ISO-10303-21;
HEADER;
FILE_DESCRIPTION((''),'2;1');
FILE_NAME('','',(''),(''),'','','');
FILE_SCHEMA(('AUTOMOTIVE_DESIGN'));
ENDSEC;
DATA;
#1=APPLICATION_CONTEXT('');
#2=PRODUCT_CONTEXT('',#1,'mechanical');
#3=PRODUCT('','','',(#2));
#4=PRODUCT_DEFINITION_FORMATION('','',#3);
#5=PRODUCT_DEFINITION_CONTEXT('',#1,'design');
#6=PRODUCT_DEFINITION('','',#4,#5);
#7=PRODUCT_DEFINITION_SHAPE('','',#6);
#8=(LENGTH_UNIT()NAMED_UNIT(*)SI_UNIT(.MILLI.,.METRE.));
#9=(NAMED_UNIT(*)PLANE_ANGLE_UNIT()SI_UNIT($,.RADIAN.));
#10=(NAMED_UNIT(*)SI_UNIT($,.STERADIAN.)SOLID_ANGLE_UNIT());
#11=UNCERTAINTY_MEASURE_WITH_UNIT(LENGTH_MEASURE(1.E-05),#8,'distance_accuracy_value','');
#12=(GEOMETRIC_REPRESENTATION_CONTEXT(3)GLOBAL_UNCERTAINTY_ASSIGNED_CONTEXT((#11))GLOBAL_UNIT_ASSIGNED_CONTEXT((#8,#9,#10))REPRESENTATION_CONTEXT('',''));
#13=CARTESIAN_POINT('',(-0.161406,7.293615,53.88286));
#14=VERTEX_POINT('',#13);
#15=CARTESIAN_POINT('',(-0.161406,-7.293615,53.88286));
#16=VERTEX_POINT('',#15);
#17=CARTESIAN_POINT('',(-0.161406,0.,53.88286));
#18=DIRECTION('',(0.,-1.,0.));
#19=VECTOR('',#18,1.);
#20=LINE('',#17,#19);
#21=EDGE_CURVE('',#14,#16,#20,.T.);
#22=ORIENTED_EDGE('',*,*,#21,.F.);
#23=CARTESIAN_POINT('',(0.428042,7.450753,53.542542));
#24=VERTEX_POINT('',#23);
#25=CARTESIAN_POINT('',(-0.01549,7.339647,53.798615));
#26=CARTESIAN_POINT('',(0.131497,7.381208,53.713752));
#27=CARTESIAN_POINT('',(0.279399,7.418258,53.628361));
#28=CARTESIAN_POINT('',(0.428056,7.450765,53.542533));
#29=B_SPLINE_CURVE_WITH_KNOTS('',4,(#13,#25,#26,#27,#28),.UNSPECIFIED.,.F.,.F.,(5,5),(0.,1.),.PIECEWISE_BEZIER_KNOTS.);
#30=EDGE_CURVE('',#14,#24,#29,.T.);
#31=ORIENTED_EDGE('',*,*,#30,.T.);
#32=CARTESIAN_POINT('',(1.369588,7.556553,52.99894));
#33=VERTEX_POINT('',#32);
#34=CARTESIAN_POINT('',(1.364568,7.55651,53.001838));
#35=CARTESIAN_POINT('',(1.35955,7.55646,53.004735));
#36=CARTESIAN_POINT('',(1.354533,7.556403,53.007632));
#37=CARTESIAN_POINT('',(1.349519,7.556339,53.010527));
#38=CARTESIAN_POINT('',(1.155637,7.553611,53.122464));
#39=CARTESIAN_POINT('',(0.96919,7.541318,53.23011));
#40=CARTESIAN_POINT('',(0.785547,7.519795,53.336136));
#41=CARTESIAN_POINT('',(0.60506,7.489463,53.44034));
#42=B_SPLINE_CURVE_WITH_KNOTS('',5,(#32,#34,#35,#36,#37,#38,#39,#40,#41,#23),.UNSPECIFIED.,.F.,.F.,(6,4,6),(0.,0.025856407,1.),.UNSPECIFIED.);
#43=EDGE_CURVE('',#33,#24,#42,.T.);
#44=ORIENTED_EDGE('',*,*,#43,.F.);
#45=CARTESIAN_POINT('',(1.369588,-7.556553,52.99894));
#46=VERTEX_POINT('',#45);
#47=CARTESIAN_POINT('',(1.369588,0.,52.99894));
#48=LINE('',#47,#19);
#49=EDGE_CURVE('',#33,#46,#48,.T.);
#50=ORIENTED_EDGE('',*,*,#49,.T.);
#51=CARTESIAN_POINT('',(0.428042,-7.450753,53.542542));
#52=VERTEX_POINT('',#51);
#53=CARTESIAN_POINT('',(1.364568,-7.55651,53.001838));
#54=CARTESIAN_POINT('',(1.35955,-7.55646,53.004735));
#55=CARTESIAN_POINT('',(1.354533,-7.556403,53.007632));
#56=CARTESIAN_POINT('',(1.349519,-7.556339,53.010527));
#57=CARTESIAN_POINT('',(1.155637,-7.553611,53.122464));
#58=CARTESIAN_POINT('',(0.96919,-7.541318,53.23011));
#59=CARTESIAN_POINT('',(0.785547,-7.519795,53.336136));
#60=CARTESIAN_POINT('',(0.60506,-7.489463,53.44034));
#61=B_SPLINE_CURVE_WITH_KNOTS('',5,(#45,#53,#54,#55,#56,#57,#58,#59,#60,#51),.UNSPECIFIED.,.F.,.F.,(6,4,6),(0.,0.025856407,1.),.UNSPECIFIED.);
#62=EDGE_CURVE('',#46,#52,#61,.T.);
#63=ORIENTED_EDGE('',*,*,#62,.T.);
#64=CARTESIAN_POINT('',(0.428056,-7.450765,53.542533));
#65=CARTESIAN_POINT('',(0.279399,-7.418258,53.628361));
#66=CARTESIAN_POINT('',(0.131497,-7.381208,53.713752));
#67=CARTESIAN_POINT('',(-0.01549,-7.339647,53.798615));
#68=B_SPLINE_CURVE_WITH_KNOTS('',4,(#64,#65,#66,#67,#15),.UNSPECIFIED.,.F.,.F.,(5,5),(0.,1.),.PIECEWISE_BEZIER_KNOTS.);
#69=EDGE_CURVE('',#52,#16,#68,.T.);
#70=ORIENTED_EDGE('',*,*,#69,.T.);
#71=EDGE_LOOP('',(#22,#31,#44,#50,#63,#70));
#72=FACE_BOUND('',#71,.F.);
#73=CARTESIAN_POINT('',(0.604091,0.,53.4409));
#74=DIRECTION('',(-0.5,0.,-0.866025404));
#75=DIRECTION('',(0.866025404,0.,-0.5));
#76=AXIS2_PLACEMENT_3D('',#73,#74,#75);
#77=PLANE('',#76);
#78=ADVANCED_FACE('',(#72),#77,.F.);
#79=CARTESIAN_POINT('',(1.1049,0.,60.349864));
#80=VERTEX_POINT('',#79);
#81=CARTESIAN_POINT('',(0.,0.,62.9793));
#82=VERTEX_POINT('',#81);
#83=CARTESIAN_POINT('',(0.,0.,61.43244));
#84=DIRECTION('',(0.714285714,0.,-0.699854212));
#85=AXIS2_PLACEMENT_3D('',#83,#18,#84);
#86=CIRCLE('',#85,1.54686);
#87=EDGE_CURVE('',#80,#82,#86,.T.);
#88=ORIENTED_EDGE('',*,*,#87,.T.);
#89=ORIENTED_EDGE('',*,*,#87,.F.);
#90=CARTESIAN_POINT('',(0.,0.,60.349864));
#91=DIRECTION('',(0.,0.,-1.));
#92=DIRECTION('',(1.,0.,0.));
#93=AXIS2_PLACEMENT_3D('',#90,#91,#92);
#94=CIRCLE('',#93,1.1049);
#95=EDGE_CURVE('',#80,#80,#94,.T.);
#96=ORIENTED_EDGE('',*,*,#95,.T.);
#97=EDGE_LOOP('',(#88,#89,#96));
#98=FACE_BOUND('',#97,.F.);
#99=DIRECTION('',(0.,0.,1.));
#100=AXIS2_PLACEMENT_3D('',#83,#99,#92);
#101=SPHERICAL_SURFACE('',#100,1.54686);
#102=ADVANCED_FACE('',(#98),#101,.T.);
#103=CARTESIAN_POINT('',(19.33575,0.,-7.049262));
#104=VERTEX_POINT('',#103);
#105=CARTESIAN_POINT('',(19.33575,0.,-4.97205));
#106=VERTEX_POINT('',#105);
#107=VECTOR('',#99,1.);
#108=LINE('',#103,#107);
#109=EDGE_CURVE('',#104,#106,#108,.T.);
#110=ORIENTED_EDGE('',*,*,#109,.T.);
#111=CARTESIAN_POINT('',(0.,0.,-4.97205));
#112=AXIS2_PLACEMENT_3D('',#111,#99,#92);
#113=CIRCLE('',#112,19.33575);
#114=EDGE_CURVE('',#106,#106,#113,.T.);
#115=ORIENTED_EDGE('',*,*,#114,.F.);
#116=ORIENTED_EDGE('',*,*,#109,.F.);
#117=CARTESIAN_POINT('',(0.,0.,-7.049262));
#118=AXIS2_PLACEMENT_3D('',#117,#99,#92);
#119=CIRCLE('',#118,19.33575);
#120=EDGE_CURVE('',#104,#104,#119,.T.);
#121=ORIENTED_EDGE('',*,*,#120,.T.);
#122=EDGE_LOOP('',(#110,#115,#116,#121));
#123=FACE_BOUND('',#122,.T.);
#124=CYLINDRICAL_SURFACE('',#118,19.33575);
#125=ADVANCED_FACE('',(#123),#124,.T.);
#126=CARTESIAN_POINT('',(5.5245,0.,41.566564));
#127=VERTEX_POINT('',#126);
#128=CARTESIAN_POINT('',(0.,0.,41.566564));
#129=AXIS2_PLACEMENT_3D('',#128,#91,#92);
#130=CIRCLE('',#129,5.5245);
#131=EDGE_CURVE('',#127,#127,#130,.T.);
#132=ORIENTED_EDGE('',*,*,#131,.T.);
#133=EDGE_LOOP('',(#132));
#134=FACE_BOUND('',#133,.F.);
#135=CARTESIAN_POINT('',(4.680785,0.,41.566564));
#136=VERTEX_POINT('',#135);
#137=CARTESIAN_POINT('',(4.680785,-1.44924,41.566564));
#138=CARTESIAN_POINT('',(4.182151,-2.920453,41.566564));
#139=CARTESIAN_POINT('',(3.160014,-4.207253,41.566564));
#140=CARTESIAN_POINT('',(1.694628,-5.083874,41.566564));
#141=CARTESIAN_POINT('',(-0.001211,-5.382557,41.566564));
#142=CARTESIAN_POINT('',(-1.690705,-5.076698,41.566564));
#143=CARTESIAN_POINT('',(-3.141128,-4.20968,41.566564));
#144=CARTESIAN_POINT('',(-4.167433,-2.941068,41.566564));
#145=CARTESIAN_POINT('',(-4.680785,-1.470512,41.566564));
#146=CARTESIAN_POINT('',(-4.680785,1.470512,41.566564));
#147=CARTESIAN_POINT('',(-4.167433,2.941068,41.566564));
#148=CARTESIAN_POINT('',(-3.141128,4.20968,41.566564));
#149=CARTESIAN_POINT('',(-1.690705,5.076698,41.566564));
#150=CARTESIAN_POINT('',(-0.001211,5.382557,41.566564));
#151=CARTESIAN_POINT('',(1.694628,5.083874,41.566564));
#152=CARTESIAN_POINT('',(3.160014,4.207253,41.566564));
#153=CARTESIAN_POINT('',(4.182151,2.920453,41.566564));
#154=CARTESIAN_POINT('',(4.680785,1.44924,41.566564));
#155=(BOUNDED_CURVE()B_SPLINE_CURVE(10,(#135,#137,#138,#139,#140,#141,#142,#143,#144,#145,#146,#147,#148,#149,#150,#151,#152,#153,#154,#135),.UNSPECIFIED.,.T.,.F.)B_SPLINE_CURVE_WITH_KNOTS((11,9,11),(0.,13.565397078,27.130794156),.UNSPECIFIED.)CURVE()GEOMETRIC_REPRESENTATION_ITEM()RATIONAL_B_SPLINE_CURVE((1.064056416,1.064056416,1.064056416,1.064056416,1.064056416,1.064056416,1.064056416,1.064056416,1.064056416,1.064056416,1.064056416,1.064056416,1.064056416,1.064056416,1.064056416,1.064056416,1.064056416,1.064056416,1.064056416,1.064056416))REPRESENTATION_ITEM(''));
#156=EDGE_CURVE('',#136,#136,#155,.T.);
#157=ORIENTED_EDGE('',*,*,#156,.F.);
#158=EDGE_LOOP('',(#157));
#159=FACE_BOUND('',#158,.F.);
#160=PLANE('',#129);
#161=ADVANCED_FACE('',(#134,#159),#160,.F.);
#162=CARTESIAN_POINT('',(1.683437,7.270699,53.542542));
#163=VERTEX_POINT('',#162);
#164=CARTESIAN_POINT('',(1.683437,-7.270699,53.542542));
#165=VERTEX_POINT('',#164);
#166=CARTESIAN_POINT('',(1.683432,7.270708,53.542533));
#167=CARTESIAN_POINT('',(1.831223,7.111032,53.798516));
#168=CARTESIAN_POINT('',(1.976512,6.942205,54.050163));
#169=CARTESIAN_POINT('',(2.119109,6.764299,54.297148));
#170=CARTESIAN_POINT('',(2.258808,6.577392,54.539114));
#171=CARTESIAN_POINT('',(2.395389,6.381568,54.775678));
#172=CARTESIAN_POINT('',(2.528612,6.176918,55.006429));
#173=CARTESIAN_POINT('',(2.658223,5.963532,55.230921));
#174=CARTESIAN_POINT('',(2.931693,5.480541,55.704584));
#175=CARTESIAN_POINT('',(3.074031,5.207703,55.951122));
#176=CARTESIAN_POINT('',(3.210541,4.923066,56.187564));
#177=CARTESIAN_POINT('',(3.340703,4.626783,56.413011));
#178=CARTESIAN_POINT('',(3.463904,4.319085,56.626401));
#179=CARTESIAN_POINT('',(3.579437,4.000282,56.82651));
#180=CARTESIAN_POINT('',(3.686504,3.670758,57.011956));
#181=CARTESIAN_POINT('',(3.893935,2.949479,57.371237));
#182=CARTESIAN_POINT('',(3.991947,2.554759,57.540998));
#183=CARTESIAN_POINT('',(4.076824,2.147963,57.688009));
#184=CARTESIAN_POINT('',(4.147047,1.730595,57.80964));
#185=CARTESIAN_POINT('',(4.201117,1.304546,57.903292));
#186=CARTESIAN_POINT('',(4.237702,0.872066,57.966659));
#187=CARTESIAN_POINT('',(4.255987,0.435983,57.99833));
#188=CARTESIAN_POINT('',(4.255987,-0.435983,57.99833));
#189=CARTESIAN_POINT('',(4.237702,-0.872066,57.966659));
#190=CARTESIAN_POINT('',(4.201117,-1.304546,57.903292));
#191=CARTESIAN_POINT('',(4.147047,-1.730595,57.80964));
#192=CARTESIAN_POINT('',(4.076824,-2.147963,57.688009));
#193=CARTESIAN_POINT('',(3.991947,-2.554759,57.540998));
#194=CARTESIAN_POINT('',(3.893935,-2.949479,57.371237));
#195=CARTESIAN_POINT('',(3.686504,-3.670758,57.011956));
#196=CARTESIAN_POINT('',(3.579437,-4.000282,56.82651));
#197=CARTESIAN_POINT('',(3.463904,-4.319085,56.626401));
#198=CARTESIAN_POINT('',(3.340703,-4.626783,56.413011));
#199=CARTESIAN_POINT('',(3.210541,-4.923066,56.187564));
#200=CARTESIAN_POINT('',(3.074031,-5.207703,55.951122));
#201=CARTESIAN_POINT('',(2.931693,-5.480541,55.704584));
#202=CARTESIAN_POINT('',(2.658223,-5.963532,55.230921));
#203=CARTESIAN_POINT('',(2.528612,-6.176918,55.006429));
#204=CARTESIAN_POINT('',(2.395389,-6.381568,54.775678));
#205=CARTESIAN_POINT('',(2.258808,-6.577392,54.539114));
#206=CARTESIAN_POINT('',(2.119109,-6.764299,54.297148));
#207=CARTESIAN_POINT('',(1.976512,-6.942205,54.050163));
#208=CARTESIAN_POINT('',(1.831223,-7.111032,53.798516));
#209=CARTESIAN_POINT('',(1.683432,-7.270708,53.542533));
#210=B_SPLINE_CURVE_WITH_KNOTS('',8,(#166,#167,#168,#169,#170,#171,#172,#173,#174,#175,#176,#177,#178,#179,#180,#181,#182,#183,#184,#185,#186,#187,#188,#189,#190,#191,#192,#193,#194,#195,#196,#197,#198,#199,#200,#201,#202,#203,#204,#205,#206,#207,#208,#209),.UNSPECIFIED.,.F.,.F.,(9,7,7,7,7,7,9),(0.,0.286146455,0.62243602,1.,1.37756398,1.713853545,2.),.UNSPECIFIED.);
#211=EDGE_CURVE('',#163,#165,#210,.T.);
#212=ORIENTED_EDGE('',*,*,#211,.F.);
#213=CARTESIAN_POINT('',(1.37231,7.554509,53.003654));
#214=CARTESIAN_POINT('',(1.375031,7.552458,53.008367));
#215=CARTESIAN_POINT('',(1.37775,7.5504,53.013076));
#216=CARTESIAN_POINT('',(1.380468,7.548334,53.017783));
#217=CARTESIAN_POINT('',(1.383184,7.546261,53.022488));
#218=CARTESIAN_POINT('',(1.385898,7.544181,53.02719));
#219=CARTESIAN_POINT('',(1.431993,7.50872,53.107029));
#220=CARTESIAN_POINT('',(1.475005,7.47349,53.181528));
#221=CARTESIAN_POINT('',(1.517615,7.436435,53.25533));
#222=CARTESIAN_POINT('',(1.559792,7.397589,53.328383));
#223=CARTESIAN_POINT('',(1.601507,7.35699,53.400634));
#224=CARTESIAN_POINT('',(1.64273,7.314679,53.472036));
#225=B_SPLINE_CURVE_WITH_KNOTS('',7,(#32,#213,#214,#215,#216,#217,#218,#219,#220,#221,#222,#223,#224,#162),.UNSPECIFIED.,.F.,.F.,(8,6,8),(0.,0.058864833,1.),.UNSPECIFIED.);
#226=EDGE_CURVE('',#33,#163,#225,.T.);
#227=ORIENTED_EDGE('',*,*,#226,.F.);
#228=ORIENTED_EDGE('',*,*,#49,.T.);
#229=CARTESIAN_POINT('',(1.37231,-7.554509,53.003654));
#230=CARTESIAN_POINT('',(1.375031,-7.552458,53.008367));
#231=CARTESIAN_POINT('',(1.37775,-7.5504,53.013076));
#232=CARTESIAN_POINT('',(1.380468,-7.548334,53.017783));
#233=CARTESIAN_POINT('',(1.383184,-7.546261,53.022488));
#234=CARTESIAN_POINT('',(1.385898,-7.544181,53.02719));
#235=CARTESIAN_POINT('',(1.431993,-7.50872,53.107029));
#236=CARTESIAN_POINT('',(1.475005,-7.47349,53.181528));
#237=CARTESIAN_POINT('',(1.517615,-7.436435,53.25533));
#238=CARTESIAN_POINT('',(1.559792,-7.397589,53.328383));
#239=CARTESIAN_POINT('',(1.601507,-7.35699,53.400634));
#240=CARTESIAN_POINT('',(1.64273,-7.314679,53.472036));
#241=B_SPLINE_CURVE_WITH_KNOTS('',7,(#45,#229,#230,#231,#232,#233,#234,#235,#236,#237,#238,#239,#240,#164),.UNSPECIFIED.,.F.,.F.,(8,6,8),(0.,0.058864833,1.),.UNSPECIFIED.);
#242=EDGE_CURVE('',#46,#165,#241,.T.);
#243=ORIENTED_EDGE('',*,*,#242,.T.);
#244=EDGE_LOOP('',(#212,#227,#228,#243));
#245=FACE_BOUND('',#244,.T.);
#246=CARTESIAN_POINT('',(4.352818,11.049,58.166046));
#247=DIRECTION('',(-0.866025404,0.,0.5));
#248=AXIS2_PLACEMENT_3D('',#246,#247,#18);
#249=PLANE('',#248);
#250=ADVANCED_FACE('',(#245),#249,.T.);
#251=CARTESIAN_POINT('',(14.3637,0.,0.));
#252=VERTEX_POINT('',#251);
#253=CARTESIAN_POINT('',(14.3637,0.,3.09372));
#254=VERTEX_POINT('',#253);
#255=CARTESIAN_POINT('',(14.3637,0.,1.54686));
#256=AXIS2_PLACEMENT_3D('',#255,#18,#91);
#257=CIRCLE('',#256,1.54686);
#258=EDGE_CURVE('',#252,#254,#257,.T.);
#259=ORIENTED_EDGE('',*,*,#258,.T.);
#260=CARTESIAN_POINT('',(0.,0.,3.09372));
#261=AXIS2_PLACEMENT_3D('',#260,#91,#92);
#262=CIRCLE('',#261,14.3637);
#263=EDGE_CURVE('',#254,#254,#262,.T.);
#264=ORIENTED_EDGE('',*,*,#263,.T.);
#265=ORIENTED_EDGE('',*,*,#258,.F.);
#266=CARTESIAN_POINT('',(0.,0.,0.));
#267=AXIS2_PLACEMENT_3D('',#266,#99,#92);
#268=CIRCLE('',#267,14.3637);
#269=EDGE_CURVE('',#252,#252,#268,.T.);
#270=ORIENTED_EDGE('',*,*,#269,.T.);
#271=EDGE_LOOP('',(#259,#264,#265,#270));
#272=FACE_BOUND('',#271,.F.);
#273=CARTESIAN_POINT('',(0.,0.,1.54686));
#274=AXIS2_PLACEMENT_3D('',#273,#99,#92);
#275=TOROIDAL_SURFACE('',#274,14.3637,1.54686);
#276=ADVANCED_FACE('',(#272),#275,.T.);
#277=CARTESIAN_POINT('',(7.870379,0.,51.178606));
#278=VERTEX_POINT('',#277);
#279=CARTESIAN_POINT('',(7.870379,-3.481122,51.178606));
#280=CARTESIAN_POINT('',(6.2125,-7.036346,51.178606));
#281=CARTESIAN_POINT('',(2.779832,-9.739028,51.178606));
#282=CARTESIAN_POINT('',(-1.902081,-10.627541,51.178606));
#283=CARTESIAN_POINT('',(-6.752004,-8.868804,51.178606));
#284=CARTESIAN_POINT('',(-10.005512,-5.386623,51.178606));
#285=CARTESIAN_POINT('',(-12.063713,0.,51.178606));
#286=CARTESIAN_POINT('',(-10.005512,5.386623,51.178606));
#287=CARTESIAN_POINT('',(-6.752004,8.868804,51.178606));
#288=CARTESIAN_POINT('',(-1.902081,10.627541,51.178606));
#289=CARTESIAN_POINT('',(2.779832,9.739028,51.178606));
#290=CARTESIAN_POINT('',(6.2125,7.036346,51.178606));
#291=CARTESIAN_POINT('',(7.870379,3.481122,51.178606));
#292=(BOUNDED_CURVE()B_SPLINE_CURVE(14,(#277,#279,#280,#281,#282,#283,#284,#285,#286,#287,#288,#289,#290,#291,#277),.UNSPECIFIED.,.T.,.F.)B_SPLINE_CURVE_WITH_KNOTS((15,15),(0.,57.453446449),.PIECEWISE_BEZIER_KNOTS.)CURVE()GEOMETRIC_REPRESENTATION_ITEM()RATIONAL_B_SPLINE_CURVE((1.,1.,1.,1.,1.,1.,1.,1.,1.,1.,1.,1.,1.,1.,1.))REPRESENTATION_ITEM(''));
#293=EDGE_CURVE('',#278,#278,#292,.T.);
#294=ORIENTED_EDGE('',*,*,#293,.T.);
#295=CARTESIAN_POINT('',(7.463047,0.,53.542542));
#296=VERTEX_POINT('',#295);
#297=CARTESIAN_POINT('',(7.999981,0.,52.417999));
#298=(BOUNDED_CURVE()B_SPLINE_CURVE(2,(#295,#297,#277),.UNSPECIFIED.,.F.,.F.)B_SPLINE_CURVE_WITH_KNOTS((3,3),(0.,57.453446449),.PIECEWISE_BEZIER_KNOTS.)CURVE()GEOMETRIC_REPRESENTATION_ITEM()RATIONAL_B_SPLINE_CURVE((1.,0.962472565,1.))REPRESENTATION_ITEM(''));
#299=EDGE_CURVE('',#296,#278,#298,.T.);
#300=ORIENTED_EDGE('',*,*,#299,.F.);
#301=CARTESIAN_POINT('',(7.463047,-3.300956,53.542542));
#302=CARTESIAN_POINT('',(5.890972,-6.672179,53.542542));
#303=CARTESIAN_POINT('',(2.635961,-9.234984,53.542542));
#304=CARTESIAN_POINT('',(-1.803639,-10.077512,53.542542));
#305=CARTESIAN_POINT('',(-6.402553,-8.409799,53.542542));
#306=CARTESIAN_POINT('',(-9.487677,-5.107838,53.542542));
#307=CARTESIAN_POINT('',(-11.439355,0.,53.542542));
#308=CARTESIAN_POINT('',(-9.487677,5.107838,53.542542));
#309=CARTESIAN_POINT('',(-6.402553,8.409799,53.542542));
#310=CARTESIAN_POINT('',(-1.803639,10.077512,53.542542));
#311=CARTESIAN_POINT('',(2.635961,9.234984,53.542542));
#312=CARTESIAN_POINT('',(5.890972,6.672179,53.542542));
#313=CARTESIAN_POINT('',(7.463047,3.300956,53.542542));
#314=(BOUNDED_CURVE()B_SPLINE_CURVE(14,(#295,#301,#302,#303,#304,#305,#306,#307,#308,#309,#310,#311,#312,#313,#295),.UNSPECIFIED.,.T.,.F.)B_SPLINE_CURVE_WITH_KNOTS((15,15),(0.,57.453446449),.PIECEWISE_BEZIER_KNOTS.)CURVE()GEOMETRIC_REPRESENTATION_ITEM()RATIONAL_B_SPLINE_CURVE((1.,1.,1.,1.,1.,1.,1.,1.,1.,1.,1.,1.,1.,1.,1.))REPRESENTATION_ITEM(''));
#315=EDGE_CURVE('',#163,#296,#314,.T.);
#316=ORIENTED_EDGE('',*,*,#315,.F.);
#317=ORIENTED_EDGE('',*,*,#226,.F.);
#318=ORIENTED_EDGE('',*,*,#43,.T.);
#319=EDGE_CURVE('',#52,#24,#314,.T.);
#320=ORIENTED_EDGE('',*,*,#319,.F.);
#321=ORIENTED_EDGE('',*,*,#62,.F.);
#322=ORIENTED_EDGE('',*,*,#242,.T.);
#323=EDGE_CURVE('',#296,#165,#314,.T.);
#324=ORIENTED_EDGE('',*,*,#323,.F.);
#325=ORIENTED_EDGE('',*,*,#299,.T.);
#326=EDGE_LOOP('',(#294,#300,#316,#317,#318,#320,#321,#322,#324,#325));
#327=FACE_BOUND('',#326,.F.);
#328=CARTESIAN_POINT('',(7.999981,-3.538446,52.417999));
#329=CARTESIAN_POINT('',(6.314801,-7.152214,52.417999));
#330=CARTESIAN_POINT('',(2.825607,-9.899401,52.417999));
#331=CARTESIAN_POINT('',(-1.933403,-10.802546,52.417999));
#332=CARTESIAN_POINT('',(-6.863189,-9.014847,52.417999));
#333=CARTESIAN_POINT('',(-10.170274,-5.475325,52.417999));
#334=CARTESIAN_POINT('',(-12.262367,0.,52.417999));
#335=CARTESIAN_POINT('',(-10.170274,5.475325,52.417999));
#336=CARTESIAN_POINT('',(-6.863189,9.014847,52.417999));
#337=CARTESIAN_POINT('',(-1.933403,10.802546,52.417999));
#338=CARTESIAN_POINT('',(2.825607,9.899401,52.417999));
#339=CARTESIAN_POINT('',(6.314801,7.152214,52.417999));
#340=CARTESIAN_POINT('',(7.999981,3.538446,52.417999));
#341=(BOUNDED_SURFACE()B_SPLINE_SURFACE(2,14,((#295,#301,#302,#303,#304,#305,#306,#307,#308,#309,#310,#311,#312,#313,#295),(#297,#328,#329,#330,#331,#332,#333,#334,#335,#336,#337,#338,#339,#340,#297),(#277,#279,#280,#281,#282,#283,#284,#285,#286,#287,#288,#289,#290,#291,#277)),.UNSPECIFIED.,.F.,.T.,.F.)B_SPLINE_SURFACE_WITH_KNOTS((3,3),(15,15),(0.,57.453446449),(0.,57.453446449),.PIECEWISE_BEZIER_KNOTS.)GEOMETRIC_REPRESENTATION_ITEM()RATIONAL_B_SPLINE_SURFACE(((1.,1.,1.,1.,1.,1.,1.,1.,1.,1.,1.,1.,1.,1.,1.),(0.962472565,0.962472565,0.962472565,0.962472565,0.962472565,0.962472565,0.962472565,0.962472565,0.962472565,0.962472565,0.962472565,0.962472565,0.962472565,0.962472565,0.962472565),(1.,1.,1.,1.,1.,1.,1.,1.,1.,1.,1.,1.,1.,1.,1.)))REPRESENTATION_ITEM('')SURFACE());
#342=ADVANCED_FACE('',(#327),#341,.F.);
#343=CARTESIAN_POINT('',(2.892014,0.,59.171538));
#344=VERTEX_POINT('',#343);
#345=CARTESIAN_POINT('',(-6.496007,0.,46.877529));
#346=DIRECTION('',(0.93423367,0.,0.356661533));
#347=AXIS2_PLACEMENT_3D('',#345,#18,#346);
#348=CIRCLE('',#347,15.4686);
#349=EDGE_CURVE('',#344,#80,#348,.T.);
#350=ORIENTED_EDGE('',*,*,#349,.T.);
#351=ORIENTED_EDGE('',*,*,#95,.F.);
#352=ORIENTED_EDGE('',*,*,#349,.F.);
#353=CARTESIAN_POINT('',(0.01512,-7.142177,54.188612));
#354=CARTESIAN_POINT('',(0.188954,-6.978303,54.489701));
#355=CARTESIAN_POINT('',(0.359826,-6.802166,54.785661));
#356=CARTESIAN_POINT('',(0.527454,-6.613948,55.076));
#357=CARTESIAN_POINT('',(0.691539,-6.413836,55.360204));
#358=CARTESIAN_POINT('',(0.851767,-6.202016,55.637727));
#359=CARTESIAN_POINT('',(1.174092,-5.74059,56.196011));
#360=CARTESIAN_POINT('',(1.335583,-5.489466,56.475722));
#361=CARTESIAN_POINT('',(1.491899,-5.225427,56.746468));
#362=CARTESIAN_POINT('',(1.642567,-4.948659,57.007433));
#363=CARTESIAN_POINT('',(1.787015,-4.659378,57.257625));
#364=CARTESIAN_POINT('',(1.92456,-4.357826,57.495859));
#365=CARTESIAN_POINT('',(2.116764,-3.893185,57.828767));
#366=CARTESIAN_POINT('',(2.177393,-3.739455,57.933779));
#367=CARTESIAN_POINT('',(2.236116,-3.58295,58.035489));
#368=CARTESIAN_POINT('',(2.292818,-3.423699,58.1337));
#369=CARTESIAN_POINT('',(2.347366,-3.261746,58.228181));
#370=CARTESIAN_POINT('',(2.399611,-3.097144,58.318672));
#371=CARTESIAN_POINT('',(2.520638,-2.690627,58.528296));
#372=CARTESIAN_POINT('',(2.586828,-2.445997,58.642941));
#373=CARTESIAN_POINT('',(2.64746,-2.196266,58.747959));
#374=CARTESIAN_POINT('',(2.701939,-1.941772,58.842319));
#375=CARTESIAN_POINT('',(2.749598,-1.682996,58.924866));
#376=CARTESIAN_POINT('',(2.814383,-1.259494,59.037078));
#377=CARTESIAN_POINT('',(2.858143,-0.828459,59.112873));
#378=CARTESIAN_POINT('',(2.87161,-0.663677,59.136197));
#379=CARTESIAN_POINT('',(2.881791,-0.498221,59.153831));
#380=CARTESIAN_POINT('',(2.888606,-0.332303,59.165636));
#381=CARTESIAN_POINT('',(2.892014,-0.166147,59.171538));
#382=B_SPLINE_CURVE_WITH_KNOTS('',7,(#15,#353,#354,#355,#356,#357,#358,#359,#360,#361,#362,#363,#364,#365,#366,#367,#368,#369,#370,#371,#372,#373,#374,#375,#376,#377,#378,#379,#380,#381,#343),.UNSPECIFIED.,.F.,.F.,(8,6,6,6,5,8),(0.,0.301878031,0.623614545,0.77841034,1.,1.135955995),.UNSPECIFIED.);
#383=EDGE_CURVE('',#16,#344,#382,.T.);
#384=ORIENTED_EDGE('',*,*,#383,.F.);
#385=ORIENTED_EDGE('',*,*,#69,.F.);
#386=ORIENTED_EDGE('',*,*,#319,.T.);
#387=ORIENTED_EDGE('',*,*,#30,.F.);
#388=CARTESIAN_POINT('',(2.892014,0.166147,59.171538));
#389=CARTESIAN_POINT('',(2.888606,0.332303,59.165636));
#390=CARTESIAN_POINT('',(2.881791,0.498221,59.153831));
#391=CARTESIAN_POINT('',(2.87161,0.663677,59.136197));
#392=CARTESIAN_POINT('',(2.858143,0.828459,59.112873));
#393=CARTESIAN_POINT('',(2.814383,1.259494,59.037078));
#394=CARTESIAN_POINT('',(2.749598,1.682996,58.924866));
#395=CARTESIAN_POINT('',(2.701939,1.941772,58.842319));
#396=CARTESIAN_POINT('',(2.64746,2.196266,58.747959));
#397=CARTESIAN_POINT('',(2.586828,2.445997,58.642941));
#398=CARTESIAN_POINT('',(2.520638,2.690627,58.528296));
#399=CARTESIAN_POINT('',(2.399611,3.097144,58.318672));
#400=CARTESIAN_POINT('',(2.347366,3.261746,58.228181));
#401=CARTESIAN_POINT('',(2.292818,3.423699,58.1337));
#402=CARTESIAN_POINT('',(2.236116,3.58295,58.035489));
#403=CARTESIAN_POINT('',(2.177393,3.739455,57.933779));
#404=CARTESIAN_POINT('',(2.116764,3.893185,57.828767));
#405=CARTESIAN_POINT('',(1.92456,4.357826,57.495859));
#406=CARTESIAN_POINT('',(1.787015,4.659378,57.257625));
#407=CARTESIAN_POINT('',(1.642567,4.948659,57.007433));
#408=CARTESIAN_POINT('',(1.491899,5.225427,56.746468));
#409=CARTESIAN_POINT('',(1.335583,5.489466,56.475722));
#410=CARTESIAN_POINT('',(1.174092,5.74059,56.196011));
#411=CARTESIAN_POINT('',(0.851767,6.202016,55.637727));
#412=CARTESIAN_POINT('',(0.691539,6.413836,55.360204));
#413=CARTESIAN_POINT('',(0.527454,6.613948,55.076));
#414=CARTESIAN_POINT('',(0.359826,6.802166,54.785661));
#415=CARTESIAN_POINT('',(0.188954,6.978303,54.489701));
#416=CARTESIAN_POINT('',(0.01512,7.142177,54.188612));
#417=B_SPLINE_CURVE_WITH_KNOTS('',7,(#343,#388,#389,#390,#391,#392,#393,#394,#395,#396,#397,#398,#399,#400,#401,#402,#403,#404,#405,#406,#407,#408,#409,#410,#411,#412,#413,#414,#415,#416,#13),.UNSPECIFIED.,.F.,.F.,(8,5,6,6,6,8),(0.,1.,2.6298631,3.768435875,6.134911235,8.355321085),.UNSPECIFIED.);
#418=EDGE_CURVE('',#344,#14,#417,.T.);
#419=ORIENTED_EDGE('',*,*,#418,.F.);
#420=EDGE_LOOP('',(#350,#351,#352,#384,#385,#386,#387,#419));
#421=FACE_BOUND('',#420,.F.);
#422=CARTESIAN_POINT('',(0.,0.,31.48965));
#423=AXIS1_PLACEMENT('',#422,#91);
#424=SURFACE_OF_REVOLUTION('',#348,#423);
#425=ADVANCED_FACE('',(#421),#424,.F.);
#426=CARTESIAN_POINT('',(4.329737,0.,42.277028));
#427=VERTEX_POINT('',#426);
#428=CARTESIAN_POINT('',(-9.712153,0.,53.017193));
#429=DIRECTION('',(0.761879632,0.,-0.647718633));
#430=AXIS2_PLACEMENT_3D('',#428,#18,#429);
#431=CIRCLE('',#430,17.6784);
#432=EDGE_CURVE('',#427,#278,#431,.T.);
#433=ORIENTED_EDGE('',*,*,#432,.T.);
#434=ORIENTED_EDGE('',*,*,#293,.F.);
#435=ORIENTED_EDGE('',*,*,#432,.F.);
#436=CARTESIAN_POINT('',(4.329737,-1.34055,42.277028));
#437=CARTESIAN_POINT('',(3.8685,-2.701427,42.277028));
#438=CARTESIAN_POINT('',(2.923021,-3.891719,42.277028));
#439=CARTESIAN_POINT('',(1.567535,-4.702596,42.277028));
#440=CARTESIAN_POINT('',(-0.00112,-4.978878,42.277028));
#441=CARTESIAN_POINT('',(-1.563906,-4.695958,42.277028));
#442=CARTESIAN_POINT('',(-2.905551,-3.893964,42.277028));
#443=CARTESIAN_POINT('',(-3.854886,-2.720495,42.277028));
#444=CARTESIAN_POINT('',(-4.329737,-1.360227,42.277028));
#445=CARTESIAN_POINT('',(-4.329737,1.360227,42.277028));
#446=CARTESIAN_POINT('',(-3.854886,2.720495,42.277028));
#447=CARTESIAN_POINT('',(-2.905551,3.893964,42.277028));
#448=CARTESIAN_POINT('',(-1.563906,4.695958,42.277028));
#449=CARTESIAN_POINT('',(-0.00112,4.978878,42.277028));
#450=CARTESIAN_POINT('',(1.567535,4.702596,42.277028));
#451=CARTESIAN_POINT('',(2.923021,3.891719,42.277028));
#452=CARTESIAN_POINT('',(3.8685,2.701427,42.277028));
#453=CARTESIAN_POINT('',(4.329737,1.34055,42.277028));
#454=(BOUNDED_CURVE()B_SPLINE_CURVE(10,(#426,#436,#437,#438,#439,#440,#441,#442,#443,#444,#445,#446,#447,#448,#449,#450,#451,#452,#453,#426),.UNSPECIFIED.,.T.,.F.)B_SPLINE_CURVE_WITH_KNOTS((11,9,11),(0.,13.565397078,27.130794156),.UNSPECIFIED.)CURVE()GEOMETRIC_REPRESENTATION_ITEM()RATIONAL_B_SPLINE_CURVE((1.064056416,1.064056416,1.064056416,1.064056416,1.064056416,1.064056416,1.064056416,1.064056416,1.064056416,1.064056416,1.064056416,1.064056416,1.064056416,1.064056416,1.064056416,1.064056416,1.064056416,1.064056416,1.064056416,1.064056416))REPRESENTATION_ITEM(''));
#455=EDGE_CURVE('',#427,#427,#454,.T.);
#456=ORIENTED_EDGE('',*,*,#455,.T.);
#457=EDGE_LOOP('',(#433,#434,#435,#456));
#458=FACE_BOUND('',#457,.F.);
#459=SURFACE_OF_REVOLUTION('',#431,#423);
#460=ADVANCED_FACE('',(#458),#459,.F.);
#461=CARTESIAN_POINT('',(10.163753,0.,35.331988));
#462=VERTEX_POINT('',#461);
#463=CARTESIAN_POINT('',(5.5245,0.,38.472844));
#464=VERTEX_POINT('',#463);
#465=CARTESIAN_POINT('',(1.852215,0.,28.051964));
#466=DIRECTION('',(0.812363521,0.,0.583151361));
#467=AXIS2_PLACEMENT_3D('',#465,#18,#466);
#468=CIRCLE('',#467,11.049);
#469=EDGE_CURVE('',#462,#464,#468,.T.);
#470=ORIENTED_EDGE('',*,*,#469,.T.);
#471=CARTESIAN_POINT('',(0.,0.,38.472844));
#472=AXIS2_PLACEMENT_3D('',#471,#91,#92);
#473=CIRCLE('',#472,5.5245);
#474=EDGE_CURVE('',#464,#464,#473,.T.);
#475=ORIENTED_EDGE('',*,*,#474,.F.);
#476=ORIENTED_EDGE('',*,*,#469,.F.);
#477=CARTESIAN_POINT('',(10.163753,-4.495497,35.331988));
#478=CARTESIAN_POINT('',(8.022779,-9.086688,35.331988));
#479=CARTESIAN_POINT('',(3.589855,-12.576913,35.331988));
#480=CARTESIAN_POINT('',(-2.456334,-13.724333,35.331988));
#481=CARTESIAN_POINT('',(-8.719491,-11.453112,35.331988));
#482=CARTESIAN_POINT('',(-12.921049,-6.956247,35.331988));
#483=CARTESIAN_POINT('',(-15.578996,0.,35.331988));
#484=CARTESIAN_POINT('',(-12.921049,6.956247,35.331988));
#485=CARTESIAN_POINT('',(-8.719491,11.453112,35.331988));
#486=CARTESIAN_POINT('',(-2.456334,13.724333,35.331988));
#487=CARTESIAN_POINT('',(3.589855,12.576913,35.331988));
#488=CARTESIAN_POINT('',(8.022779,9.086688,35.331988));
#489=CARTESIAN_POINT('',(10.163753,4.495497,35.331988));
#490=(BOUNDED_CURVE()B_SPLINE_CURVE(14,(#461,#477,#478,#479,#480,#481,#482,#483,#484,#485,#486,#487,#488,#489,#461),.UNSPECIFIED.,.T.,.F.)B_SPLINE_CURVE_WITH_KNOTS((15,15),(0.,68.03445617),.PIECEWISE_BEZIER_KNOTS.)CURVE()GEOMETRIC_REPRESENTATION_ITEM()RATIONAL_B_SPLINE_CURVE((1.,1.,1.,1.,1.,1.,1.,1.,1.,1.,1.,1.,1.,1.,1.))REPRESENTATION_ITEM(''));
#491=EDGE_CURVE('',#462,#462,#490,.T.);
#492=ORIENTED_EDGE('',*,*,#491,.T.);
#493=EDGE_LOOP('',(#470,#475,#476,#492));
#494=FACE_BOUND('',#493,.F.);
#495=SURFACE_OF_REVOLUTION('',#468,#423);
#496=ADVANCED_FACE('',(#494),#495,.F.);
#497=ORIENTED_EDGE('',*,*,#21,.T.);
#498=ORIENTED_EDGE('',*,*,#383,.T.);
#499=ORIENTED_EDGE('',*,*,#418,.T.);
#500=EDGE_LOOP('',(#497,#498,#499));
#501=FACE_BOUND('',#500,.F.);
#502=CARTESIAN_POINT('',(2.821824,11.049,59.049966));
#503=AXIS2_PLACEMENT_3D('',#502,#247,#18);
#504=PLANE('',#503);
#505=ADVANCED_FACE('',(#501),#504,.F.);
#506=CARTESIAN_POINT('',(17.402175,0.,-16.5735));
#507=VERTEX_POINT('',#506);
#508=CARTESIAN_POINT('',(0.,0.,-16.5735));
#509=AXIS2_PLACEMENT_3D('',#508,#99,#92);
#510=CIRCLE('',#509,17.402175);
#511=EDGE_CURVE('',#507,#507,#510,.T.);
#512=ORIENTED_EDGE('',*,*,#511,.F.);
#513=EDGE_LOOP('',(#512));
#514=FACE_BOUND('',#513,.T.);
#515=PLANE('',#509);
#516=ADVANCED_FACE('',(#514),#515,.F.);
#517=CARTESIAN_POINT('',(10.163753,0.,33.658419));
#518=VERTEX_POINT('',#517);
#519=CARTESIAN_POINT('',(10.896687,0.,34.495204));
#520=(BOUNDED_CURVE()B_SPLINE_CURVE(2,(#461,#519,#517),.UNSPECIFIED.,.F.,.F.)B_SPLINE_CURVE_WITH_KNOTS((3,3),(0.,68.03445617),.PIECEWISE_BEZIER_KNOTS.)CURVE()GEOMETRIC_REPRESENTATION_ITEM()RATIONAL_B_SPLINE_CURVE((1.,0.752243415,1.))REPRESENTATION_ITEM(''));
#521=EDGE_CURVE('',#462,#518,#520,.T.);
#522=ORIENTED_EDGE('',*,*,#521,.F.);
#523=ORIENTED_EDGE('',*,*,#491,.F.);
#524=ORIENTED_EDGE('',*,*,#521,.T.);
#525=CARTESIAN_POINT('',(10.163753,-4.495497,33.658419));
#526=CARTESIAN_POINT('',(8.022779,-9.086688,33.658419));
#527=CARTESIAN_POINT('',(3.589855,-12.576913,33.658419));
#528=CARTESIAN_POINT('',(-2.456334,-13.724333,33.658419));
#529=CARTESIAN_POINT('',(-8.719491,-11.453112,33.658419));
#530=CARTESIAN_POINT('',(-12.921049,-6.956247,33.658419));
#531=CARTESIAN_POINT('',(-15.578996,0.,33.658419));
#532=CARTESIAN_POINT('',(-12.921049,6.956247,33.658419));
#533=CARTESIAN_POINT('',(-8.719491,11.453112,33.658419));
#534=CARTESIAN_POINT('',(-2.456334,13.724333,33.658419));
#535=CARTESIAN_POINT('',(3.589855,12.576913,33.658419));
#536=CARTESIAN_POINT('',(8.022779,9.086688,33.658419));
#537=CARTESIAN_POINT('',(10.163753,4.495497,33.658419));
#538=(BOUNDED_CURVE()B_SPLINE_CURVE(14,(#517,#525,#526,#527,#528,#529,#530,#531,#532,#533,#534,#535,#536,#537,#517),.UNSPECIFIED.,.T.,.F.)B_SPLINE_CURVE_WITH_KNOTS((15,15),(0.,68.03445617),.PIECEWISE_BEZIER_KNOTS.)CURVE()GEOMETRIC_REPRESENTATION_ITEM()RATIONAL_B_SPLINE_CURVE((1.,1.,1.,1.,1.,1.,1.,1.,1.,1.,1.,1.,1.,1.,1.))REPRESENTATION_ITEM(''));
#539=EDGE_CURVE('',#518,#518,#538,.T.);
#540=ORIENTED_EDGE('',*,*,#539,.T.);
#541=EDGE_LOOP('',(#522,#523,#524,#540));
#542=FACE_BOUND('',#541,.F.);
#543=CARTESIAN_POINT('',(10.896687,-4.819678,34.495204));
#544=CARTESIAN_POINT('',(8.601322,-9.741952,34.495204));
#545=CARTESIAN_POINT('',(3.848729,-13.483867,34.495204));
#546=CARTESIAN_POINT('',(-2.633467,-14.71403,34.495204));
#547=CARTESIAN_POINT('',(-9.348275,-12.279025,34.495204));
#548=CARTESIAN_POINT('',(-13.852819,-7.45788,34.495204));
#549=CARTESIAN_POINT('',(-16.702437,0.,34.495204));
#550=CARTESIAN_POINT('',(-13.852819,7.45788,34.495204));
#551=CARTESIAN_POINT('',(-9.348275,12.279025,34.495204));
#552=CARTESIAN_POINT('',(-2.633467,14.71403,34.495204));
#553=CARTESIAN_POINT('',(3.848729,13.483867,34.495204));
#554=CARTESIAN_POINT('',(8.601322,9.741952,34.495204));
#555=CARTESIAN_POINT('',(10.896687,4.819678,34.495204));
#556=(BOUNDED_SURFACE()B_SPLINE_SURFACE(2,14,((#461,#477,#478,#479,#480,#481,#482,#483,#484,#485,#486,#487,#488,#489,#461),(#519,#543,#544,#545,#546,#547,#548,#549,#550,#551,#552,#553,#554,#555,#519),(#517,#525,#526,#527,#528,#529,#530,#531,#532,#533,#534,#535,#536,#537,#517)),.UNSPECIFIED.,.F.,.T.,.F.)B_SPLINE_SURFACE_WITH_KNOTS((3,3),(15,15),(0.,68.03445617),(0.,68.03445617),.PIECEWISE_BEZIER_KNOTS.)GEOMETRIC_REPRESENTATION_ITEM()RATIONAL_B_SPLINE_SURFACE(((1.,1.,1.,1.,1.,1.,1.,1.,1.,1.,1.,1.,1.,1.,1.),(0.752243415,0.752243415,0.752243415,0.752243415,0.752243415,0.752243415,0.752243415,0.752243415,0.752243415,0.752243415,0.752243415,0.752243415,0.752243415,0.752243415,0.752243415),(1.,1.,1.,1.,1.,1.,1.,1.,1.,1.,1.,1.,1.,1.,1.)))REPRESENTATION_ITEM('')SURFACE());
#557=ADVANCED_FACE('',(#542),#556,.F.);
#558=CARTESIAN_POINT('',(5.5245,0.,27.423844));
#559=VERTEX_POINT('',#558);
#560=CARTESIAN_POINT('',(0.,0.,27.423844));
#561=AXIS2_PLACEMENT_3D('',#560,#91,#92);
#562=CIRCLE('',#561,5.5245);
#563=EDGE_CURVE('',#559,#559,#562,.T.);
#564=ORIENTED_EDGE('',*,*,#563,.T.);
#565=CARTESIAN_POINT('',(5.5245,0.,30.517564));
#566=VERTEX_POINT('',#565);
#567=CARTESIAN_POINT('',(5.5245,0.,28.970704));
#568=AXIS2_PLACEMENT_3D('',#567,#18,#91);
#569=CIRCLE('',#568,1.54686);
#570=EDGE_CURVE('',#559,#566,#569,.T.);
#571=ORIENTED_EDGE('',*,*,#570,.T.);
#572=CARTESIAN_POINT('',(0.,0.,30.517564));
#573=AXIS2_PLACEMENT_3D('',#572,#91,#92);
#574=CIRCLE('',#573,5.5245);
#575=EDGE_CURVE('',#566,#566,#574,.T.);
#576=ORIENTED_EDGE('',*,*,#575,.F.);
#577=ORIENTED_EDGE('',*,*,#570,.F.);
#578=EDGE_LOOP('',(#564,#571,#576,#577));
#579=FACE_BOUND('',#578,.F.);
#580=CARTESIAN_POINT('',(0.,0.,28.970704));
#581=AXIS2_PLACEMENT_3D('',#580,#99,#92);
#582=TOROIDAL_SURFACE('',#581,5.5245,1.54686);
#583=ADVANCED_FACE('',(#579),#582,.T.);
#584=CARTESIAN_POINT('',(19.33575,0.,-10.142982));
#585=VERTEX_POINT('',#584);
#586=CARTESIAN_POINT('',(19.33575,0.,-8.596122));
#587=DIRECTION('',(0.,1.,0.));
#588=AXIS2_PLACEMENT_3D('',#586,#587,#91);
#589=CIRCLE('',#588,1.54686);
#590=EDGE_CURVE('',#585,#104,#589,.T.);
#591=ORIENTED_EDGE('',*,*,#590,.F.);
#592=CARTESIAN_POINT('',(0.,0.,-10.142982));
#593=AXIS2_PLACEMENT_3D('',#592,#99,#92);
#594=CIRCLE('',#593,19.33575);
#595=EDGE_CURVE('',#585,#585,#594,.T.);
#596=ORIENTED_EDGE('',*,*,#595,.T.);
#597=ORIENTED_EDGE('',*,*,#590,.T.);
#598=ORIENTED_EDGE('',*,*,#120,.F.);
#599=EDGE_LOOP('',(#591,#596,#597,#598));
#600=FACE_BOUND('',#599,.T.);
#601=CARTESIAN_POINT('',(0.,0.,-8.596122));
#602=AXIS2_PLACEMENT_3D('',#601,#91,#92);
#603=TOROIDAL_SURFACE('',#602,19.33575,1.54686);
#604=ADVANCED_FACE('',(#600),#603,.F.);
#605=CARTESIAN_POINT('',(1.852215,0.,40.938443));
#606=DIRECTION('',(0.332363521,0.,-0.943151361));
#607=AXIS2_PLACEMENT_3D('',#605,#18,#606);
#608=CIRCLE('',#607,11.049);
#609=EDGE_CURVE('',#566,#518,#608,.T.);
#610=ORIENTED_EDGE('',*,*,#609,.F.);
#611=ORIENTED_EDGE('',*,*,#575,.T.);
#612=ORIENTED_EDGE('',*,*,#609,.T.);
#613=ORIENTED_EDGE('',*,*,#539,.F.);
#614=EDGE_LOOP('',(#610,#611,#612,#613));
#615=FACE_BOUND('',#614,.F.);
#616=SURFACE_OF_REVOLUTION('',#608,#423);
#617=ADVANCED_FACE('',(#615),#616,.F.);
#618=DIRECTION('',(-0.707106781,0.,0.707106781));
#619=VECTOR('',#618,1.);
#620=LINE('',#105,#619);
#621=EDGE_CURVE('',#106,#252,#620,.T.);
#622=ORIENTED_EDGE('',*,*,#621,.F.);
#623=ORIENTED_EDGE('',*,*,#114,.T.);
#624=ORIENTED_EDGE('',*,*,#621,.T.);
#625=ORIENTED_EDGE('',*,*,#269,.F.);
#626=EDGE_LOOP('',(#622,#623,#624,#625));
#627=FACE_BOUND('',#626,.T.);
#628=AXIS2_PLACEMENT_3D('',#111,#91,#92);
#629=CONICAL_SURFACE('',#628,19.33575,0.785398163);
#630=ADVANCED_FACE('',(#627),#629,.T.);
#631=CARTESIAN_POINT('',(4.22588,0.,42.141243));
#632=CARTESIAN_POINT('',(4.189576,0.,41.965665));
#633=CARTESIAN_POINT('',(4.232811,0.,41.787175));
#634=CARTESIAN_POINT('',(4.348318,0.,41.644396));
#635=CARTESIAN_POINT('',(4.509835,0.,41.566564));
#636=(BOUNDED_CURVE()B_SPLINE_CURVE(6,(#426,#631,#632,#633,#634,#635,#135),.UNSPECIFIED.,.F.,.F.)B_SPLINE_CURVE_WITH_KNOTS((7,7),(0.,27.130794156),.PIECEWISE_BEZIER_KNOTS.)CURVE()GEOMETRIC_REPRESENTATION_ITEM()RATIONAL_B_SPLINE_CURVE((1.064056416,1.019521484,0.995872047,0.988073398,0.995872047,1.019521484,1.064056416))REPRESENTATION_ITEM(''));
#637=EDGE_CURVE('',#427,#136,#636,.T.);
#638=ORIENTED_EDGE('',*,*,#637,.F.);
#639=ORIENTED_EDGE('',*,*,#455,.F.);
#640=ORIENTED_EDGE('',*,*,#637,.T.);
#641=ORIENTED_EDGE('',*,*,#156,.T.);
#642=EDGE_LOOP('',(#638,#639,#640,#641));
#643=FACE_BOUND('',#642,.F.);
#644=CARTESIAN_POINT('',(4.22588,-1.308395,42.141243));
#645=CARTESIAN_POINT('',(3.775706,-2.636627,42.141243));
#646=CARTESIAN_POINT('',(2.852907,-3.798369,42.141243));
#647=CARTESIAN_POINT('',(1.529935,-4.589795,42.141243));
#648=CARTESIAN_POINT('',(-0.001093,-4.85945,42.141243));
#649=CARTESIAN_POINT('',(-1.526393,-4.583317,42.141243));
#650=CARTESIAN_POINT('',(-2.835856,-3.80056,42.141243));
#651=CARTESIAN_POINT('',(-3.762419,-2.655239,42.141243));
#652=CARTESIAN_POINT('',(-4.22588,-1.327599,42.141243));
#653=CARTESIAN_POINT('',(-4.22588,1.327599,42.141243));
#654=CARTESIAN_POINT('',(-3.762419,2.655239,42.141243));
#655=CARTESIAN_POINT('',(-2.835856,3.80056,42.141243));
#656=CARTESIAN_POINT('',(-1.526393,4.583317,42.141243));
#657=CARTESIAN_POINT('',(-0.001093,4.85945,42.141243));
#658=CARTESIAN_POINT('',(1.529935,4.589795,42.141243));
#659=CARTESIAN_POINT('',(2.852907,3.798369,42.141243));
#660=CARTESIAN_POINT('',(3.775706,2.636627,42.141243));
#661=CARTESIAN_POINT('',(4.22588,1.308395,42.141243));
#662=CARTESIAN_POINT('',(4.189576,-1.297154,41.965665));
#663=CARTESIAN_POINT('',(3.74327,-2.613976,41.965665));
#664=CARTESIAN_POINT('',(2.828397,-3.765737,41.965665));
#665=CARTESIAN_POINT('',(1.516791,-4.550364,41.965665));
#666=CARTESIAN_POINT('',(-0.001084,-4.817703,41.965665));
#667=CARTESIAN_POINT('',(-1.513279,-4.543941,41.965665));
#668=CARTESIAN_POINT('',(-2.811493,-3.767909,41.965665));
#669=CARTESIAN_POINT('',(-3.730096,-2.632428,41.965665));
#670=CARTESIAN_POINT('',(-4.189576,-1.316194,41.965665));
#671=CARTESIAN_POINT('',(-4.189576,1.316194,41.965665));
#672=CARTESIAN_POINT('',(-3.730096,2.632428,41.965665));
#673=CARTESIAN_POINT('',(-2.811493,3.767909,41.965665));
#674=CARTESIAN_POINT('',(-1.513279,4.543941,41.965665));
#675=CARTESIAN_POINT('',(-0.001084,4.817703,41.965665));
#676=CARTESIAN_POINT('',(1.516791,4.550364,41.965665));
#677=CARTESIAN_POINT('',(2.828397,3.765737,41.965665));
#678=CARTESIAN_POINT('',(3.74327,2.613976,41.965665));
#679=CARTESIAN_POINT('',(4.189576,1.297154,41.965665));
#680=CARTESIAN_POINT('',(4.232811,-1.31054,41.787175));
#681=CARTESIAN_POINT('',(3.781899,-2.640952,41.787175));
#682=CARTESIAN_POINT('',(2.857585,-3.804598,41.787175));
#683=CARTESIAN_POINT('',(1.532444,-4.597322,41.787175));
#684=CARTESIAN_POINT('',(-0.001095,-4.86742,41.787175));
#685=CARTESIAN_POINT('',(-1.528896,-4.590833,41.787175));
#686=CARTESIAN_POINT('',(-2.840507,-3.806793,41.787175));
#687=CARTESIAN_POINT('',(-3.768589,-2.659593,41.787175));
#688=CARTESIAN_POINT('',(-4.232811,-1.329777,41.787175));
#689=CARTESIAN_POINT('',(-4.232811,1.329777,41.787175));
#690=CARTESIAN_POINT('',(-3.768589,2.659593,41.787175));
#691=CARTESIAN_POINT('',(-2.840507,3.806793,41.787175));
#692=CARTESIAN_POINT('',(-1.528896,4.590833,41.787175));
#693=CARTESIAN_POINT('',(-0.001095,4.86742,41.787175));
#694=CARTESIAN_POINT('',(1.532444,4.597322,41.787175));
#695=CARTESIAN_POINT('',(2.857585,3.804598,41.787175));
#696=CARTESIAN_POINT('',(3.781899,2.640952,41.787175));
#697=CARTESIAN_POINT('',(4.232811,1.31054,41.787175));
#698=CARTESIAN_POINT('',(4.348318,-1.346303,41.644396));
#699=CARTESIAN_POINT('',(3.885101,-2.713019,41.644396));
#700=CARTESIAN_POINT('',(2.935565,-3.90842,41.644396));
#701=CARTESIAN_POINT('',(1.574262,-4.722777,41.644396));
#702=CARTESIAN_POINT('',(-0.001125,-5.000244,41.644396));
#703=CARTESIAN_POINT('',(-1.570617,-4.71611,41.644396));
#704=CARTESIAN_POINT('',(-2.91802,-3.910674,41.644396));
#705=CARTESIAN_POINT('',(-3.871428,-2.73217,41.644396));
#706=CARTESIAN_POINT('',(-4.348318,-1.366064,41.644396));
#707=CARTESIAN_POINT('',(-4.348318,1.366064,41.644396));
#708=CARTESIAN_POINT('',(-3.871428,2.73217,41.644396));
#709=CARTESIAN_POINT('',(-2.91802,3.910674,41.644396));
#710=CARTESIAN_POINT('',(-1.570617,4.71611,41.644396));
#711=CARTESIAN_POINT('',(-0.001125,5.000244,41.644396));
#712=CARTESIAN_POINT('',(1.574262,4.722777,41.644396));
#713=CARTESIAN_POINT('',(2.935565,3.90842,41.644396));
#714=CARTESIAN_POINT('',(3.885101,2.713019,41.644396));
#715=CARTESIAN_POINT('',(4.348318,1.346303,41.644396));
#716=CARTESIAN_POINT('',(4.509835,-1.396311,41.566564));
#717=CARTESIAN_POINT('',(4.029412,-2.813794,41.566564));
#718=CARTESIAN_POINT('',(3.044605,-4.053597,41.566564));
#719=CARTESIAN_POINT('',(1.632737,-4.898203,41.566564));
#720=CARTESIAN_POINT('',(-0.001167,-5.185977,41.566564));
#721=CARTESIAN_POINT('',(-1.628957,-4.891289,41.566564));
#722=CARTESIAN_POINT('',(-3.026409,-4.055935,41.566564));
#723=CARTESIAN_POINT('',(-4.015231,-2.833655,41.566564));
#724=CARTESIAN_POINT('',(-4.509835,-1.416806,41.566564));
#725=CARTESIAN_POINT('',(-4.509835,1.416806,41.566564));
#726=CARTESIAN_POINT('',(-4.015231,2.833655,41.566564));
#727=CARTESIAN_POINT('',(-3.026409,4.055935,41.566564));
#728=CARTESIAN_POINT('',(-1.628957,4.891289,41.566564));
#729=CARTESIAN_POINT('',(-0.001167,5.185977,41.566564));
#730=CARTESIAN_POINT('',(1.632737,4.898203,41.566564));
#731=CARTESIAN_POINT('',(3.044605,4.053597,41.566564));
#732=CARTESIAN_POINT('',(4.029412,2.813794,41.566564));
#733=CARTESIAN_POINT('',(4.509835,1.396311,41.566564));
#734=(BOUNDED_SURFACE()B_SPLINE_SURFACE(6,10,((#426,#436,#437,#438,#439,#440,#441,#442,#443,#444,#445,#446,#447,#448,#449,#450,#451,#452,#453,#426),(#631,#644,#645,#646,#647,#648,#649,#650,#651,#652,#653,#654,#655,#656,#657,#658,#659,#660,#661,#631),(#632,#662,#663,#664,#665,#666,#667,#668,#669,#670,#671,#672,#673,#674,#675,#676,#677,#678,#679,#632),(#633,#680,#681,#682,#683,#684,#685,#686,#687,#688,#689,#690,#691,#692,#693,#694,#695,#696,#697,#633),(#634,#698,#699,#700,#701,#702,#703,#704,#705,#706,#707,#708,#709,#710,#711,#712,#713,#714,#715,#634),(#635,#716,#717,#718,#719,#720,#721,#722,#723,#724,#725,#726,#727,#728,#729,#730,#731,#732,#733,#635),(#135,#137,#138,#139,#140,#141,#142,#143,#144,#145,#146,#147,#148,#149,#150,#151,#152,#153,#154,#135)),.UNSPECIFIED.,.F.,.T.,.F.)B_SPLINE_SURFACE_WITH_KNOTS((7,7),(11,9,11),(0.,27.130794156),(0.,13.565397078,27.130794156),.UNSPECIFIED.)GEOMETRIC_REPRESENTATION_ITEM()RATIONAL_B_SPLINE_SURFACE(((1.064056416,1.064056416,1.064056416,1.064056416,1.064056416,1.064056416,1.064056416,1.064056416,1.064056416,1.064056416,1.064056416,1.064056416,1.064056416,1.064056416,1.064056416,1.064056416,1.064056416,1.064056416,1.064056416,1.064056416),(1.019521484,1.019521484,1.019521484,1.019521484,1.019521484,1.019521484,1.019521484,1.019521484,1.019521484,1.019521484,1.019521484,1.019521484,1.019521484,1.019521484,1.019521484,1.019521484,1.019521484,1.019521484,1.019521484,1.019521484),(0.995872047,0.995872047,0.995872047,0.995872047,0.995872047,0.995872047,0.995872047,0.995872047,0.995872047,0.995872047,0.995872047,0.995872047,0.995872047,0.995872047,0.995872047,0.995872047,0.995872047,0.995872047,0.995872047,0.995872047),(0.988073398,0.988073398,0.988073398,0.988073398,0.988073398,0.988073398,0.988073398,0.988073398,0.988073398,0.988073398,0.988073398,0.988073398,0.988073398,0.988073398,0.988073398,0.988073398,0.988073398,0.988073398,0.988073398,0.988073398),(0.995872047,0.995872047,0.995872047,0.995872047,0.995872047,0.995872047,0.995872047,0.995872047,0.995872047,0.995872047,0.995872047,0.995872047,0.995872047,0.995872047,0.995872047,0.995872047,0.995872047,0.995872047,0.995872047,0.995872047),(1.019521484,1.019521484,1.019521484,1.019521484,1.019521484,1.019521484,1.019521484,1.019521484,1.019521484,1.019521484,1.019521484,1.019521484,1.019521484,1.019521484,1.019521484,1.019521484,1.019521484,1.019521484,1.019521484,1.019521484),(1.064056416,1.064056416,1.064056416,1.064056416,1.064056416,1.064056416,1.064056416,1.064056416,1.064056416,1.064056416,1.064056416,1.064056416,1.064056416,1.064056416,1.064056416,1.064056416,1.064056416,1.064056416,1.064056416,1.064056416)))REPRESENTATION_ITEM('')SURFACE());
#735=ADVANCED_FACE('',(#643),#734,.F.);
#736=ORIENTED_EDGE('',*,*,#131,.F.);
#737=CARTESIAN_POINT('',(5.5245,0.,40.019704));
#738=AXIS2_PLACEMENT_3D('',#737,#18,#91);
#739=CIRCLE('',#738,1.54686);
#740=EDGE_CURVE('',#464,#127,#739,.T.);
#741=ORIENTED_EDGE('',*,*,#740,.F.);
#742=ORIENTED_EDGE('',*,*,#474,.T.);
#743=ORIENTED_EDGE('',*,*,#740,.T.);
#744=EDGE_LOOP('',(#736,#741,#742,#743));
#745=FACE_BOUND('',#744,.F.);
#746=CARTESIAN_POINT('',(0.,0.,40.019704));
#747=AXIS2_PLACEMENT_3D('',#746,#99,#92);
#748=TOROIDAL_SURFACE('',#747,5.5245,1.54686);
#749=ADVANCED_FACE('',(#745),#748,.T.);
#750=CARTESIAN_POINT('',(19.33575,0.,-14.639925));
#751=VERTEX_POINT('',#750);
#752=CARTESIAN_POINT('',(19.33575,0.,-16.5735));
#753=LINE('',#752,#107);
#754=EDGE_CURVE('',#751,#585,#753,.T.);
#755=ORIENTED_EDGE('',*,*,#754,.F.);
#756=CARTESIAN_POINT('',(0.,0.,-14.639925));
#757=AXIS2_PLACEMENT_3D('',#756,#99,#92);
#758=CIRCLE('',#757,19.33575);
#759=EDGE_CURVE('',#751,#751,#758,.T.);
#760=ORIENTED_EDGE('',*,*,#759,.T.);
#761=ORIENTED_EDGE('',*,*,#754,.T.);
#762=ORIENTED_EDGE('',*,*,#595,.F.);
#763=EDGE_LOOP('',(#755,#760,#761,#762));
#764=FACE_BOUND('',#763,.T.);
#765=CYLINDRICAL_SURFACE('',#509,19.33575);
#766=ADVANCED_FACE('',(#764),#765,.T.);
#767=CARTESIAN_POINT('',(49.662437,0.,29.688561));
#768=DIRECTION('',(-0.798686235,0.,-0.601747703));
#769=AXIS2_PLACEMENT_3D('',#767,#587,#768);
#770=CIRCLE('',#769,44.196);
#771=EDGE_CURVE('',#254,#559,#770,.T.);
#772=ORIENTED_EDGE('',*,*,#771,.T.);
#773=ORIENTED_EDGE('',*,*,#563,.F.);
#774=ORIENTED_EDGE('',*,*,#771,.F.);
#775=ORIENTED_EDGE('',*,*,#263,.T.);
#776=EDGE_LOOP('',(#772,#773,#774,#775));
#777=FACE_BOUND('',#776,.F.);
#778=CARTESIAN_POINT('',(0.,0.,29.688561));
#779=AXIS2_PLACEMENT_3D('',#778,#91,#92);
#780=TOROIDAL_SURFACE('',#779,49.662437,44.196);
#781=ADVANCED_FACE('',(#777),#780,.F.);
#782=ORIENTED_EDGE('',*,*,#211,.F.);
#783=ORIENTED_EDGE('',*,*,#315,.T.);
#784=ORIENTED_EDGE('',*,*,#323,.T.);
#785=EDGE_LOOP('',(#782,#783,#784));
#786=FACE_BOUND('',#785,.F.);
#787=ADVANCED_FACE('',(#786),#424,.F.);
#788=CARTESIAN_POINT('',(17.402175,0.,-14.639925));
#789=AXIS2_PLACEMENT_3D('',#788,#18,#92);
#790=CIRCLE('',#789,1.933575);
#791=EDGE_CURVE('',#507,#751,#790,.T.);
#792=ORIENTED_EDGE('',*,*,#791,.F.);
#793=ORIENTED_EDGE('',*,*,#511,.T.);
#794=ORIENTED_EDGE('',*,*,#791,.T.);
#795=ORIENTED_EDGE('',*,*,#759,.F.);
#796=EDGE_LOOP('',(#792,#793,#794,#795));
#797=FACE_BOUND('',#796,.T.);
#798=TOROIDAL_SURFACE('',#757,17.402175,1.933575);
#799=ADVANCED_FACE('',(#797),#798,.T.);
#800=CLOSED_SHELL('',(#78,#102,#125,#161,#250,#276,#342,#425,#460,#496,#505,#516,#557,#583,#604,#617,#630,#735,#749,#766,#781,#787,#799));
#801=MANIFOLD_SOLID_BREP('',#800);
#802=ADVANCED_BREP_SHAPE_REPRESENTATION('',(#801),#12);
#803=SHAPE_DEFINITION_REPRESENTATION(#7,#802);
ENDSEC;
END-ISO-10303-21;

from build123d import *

# Parameters (mm, degrees)
F2_R          = 2.2225
F5_R          = 5.08
F6_R          = 0.508
F8_W          = 2.032
F8_H          = 25.4
F9_DEPTH      = 2.54
F9_DEPTH_BACK = 6.858
F10_SCALE     = 0.87
F11_R         = 1.27


with BuildPart() as f1:
    # F0 (on Front) → F1 (revolve)
    with BuildSketch(Plane.XZ):
        with BuildLine():
            Line((16.51, 0), (0, 0))
            Line((0, 0), (0, -19.05))
            Line((0, -19.05), (22.225, -19.05))
            Line((22.225, -19.05), (22.225, -11.6586))
            ThreePointArc((22.225, -11.6586), (20.447, -9.8806), (22.225, -8.1026))
            Line((22.225, -8.1026), (22.225, -5.715))
            Line((22.225, -5.715), (16.51, 0))
        make_face()
    revolve(axis=Axis((0, 0, -9.525), (0, 0, 1)))

    # F2
    f2_edges = [f1.edges().sort_by_distance(p)[0] for p in [
        (-22.225, 0, -19.05),
    ]]
    fillet(f2_edges, radius=F2_R)

    # F3 (on Front) → F4 (revolve)
    with BuildSketch(Plane.XZ):
        with BuildLine():
            ThreePointArc((1.27, 69.3676592107), (1.6391647146, 71.3007837384), (0, 72.39))
            Line((0, 72.39), (0, 0))
            Line((0, 0), (16.51, 0))
            ThreePointArc((16.51, 0), (18.288, 1.778), (16.51, 3.556))
            ThreePointArc((16.51, 3.556), (9.3366405457, 16.778306426), (6.35, 31.5216592107))
            ThreePointArc((6.35, 31.5216592107), (8.128, 33.2996592107), (6.35, 35.0776592107))
            ThreePointArc((6.35, 35.0776592107), (9.7489832852, 36.8956814971), (12.446, 39.6496592107))
            ThreePointArc((12.446, 39.6496592107), (9.7489832852, 42.4036369243), (6.35, 44.2216592107))
            ThreePointArc((6.35, 44.2216592107), (8.128, 45.9996592107), (6.35, 47.7776592107))
            Line((6.35, 47.7776592107), (4.318, 47.7776592107))
            ThreePointArc((4.318, 47.7776592107), (7.7821876852, 53.5930558225), (9.144, 60.2236592107))
            ThreePointArc((9.144, 60.2236592107), (6.0064546496, 65.4840784923), (1.27, 69.3676592107))
        make_face()
    revolve(axis=Axis((0, 0, 36.195), (0, 0, -1)))

    # F5
    f5_edges = [f1.edges().sort_by_distance(p)[0] for p in [
        (-9.144, 0, 60.223659),
    ]]
    fillet(f5_edges, radius=F5_R)

    # F6
    f6_edges = [f1.edges().sort_by_distance(p)[0] for p in [
        (-4.318, 0, 47.777659),
    ]]
    fillet(f6_edges, radius=F6_R)

    # F8 (on line) → F9 (cut, two sides)
    with BuildSketch(Plane(origin=(30.2009668014, 0, 52.3096089378), x_dir=(0.8660254038, 0, -0.5), z_dir=(-0.5, 0, -0.8660254038))) as f9_sk:
        with Locations((-30.1118296053, 0)):
            Rectangle(F8_W, F8_H)
    extrude(amount=-F9_DEPTH, mode=Mode.SUBTRACT)
    extrude(f9_sk.sketch, amount=F9_DEPTH_BACK, mode=Mode.SUBTRACT)


with BuildPart() as f1_1:
    # F10: moved
    add(f1.part.scale(F10_SCALE))

    # F11
    f11_edges = [f1_1.edges().sort_by_distance(p)[0] for p in [
        (-10.82802, 0, 34.495204),
    ]]
    fillet(f11_edges, radius=F11_R)


solid = f1_1.part
